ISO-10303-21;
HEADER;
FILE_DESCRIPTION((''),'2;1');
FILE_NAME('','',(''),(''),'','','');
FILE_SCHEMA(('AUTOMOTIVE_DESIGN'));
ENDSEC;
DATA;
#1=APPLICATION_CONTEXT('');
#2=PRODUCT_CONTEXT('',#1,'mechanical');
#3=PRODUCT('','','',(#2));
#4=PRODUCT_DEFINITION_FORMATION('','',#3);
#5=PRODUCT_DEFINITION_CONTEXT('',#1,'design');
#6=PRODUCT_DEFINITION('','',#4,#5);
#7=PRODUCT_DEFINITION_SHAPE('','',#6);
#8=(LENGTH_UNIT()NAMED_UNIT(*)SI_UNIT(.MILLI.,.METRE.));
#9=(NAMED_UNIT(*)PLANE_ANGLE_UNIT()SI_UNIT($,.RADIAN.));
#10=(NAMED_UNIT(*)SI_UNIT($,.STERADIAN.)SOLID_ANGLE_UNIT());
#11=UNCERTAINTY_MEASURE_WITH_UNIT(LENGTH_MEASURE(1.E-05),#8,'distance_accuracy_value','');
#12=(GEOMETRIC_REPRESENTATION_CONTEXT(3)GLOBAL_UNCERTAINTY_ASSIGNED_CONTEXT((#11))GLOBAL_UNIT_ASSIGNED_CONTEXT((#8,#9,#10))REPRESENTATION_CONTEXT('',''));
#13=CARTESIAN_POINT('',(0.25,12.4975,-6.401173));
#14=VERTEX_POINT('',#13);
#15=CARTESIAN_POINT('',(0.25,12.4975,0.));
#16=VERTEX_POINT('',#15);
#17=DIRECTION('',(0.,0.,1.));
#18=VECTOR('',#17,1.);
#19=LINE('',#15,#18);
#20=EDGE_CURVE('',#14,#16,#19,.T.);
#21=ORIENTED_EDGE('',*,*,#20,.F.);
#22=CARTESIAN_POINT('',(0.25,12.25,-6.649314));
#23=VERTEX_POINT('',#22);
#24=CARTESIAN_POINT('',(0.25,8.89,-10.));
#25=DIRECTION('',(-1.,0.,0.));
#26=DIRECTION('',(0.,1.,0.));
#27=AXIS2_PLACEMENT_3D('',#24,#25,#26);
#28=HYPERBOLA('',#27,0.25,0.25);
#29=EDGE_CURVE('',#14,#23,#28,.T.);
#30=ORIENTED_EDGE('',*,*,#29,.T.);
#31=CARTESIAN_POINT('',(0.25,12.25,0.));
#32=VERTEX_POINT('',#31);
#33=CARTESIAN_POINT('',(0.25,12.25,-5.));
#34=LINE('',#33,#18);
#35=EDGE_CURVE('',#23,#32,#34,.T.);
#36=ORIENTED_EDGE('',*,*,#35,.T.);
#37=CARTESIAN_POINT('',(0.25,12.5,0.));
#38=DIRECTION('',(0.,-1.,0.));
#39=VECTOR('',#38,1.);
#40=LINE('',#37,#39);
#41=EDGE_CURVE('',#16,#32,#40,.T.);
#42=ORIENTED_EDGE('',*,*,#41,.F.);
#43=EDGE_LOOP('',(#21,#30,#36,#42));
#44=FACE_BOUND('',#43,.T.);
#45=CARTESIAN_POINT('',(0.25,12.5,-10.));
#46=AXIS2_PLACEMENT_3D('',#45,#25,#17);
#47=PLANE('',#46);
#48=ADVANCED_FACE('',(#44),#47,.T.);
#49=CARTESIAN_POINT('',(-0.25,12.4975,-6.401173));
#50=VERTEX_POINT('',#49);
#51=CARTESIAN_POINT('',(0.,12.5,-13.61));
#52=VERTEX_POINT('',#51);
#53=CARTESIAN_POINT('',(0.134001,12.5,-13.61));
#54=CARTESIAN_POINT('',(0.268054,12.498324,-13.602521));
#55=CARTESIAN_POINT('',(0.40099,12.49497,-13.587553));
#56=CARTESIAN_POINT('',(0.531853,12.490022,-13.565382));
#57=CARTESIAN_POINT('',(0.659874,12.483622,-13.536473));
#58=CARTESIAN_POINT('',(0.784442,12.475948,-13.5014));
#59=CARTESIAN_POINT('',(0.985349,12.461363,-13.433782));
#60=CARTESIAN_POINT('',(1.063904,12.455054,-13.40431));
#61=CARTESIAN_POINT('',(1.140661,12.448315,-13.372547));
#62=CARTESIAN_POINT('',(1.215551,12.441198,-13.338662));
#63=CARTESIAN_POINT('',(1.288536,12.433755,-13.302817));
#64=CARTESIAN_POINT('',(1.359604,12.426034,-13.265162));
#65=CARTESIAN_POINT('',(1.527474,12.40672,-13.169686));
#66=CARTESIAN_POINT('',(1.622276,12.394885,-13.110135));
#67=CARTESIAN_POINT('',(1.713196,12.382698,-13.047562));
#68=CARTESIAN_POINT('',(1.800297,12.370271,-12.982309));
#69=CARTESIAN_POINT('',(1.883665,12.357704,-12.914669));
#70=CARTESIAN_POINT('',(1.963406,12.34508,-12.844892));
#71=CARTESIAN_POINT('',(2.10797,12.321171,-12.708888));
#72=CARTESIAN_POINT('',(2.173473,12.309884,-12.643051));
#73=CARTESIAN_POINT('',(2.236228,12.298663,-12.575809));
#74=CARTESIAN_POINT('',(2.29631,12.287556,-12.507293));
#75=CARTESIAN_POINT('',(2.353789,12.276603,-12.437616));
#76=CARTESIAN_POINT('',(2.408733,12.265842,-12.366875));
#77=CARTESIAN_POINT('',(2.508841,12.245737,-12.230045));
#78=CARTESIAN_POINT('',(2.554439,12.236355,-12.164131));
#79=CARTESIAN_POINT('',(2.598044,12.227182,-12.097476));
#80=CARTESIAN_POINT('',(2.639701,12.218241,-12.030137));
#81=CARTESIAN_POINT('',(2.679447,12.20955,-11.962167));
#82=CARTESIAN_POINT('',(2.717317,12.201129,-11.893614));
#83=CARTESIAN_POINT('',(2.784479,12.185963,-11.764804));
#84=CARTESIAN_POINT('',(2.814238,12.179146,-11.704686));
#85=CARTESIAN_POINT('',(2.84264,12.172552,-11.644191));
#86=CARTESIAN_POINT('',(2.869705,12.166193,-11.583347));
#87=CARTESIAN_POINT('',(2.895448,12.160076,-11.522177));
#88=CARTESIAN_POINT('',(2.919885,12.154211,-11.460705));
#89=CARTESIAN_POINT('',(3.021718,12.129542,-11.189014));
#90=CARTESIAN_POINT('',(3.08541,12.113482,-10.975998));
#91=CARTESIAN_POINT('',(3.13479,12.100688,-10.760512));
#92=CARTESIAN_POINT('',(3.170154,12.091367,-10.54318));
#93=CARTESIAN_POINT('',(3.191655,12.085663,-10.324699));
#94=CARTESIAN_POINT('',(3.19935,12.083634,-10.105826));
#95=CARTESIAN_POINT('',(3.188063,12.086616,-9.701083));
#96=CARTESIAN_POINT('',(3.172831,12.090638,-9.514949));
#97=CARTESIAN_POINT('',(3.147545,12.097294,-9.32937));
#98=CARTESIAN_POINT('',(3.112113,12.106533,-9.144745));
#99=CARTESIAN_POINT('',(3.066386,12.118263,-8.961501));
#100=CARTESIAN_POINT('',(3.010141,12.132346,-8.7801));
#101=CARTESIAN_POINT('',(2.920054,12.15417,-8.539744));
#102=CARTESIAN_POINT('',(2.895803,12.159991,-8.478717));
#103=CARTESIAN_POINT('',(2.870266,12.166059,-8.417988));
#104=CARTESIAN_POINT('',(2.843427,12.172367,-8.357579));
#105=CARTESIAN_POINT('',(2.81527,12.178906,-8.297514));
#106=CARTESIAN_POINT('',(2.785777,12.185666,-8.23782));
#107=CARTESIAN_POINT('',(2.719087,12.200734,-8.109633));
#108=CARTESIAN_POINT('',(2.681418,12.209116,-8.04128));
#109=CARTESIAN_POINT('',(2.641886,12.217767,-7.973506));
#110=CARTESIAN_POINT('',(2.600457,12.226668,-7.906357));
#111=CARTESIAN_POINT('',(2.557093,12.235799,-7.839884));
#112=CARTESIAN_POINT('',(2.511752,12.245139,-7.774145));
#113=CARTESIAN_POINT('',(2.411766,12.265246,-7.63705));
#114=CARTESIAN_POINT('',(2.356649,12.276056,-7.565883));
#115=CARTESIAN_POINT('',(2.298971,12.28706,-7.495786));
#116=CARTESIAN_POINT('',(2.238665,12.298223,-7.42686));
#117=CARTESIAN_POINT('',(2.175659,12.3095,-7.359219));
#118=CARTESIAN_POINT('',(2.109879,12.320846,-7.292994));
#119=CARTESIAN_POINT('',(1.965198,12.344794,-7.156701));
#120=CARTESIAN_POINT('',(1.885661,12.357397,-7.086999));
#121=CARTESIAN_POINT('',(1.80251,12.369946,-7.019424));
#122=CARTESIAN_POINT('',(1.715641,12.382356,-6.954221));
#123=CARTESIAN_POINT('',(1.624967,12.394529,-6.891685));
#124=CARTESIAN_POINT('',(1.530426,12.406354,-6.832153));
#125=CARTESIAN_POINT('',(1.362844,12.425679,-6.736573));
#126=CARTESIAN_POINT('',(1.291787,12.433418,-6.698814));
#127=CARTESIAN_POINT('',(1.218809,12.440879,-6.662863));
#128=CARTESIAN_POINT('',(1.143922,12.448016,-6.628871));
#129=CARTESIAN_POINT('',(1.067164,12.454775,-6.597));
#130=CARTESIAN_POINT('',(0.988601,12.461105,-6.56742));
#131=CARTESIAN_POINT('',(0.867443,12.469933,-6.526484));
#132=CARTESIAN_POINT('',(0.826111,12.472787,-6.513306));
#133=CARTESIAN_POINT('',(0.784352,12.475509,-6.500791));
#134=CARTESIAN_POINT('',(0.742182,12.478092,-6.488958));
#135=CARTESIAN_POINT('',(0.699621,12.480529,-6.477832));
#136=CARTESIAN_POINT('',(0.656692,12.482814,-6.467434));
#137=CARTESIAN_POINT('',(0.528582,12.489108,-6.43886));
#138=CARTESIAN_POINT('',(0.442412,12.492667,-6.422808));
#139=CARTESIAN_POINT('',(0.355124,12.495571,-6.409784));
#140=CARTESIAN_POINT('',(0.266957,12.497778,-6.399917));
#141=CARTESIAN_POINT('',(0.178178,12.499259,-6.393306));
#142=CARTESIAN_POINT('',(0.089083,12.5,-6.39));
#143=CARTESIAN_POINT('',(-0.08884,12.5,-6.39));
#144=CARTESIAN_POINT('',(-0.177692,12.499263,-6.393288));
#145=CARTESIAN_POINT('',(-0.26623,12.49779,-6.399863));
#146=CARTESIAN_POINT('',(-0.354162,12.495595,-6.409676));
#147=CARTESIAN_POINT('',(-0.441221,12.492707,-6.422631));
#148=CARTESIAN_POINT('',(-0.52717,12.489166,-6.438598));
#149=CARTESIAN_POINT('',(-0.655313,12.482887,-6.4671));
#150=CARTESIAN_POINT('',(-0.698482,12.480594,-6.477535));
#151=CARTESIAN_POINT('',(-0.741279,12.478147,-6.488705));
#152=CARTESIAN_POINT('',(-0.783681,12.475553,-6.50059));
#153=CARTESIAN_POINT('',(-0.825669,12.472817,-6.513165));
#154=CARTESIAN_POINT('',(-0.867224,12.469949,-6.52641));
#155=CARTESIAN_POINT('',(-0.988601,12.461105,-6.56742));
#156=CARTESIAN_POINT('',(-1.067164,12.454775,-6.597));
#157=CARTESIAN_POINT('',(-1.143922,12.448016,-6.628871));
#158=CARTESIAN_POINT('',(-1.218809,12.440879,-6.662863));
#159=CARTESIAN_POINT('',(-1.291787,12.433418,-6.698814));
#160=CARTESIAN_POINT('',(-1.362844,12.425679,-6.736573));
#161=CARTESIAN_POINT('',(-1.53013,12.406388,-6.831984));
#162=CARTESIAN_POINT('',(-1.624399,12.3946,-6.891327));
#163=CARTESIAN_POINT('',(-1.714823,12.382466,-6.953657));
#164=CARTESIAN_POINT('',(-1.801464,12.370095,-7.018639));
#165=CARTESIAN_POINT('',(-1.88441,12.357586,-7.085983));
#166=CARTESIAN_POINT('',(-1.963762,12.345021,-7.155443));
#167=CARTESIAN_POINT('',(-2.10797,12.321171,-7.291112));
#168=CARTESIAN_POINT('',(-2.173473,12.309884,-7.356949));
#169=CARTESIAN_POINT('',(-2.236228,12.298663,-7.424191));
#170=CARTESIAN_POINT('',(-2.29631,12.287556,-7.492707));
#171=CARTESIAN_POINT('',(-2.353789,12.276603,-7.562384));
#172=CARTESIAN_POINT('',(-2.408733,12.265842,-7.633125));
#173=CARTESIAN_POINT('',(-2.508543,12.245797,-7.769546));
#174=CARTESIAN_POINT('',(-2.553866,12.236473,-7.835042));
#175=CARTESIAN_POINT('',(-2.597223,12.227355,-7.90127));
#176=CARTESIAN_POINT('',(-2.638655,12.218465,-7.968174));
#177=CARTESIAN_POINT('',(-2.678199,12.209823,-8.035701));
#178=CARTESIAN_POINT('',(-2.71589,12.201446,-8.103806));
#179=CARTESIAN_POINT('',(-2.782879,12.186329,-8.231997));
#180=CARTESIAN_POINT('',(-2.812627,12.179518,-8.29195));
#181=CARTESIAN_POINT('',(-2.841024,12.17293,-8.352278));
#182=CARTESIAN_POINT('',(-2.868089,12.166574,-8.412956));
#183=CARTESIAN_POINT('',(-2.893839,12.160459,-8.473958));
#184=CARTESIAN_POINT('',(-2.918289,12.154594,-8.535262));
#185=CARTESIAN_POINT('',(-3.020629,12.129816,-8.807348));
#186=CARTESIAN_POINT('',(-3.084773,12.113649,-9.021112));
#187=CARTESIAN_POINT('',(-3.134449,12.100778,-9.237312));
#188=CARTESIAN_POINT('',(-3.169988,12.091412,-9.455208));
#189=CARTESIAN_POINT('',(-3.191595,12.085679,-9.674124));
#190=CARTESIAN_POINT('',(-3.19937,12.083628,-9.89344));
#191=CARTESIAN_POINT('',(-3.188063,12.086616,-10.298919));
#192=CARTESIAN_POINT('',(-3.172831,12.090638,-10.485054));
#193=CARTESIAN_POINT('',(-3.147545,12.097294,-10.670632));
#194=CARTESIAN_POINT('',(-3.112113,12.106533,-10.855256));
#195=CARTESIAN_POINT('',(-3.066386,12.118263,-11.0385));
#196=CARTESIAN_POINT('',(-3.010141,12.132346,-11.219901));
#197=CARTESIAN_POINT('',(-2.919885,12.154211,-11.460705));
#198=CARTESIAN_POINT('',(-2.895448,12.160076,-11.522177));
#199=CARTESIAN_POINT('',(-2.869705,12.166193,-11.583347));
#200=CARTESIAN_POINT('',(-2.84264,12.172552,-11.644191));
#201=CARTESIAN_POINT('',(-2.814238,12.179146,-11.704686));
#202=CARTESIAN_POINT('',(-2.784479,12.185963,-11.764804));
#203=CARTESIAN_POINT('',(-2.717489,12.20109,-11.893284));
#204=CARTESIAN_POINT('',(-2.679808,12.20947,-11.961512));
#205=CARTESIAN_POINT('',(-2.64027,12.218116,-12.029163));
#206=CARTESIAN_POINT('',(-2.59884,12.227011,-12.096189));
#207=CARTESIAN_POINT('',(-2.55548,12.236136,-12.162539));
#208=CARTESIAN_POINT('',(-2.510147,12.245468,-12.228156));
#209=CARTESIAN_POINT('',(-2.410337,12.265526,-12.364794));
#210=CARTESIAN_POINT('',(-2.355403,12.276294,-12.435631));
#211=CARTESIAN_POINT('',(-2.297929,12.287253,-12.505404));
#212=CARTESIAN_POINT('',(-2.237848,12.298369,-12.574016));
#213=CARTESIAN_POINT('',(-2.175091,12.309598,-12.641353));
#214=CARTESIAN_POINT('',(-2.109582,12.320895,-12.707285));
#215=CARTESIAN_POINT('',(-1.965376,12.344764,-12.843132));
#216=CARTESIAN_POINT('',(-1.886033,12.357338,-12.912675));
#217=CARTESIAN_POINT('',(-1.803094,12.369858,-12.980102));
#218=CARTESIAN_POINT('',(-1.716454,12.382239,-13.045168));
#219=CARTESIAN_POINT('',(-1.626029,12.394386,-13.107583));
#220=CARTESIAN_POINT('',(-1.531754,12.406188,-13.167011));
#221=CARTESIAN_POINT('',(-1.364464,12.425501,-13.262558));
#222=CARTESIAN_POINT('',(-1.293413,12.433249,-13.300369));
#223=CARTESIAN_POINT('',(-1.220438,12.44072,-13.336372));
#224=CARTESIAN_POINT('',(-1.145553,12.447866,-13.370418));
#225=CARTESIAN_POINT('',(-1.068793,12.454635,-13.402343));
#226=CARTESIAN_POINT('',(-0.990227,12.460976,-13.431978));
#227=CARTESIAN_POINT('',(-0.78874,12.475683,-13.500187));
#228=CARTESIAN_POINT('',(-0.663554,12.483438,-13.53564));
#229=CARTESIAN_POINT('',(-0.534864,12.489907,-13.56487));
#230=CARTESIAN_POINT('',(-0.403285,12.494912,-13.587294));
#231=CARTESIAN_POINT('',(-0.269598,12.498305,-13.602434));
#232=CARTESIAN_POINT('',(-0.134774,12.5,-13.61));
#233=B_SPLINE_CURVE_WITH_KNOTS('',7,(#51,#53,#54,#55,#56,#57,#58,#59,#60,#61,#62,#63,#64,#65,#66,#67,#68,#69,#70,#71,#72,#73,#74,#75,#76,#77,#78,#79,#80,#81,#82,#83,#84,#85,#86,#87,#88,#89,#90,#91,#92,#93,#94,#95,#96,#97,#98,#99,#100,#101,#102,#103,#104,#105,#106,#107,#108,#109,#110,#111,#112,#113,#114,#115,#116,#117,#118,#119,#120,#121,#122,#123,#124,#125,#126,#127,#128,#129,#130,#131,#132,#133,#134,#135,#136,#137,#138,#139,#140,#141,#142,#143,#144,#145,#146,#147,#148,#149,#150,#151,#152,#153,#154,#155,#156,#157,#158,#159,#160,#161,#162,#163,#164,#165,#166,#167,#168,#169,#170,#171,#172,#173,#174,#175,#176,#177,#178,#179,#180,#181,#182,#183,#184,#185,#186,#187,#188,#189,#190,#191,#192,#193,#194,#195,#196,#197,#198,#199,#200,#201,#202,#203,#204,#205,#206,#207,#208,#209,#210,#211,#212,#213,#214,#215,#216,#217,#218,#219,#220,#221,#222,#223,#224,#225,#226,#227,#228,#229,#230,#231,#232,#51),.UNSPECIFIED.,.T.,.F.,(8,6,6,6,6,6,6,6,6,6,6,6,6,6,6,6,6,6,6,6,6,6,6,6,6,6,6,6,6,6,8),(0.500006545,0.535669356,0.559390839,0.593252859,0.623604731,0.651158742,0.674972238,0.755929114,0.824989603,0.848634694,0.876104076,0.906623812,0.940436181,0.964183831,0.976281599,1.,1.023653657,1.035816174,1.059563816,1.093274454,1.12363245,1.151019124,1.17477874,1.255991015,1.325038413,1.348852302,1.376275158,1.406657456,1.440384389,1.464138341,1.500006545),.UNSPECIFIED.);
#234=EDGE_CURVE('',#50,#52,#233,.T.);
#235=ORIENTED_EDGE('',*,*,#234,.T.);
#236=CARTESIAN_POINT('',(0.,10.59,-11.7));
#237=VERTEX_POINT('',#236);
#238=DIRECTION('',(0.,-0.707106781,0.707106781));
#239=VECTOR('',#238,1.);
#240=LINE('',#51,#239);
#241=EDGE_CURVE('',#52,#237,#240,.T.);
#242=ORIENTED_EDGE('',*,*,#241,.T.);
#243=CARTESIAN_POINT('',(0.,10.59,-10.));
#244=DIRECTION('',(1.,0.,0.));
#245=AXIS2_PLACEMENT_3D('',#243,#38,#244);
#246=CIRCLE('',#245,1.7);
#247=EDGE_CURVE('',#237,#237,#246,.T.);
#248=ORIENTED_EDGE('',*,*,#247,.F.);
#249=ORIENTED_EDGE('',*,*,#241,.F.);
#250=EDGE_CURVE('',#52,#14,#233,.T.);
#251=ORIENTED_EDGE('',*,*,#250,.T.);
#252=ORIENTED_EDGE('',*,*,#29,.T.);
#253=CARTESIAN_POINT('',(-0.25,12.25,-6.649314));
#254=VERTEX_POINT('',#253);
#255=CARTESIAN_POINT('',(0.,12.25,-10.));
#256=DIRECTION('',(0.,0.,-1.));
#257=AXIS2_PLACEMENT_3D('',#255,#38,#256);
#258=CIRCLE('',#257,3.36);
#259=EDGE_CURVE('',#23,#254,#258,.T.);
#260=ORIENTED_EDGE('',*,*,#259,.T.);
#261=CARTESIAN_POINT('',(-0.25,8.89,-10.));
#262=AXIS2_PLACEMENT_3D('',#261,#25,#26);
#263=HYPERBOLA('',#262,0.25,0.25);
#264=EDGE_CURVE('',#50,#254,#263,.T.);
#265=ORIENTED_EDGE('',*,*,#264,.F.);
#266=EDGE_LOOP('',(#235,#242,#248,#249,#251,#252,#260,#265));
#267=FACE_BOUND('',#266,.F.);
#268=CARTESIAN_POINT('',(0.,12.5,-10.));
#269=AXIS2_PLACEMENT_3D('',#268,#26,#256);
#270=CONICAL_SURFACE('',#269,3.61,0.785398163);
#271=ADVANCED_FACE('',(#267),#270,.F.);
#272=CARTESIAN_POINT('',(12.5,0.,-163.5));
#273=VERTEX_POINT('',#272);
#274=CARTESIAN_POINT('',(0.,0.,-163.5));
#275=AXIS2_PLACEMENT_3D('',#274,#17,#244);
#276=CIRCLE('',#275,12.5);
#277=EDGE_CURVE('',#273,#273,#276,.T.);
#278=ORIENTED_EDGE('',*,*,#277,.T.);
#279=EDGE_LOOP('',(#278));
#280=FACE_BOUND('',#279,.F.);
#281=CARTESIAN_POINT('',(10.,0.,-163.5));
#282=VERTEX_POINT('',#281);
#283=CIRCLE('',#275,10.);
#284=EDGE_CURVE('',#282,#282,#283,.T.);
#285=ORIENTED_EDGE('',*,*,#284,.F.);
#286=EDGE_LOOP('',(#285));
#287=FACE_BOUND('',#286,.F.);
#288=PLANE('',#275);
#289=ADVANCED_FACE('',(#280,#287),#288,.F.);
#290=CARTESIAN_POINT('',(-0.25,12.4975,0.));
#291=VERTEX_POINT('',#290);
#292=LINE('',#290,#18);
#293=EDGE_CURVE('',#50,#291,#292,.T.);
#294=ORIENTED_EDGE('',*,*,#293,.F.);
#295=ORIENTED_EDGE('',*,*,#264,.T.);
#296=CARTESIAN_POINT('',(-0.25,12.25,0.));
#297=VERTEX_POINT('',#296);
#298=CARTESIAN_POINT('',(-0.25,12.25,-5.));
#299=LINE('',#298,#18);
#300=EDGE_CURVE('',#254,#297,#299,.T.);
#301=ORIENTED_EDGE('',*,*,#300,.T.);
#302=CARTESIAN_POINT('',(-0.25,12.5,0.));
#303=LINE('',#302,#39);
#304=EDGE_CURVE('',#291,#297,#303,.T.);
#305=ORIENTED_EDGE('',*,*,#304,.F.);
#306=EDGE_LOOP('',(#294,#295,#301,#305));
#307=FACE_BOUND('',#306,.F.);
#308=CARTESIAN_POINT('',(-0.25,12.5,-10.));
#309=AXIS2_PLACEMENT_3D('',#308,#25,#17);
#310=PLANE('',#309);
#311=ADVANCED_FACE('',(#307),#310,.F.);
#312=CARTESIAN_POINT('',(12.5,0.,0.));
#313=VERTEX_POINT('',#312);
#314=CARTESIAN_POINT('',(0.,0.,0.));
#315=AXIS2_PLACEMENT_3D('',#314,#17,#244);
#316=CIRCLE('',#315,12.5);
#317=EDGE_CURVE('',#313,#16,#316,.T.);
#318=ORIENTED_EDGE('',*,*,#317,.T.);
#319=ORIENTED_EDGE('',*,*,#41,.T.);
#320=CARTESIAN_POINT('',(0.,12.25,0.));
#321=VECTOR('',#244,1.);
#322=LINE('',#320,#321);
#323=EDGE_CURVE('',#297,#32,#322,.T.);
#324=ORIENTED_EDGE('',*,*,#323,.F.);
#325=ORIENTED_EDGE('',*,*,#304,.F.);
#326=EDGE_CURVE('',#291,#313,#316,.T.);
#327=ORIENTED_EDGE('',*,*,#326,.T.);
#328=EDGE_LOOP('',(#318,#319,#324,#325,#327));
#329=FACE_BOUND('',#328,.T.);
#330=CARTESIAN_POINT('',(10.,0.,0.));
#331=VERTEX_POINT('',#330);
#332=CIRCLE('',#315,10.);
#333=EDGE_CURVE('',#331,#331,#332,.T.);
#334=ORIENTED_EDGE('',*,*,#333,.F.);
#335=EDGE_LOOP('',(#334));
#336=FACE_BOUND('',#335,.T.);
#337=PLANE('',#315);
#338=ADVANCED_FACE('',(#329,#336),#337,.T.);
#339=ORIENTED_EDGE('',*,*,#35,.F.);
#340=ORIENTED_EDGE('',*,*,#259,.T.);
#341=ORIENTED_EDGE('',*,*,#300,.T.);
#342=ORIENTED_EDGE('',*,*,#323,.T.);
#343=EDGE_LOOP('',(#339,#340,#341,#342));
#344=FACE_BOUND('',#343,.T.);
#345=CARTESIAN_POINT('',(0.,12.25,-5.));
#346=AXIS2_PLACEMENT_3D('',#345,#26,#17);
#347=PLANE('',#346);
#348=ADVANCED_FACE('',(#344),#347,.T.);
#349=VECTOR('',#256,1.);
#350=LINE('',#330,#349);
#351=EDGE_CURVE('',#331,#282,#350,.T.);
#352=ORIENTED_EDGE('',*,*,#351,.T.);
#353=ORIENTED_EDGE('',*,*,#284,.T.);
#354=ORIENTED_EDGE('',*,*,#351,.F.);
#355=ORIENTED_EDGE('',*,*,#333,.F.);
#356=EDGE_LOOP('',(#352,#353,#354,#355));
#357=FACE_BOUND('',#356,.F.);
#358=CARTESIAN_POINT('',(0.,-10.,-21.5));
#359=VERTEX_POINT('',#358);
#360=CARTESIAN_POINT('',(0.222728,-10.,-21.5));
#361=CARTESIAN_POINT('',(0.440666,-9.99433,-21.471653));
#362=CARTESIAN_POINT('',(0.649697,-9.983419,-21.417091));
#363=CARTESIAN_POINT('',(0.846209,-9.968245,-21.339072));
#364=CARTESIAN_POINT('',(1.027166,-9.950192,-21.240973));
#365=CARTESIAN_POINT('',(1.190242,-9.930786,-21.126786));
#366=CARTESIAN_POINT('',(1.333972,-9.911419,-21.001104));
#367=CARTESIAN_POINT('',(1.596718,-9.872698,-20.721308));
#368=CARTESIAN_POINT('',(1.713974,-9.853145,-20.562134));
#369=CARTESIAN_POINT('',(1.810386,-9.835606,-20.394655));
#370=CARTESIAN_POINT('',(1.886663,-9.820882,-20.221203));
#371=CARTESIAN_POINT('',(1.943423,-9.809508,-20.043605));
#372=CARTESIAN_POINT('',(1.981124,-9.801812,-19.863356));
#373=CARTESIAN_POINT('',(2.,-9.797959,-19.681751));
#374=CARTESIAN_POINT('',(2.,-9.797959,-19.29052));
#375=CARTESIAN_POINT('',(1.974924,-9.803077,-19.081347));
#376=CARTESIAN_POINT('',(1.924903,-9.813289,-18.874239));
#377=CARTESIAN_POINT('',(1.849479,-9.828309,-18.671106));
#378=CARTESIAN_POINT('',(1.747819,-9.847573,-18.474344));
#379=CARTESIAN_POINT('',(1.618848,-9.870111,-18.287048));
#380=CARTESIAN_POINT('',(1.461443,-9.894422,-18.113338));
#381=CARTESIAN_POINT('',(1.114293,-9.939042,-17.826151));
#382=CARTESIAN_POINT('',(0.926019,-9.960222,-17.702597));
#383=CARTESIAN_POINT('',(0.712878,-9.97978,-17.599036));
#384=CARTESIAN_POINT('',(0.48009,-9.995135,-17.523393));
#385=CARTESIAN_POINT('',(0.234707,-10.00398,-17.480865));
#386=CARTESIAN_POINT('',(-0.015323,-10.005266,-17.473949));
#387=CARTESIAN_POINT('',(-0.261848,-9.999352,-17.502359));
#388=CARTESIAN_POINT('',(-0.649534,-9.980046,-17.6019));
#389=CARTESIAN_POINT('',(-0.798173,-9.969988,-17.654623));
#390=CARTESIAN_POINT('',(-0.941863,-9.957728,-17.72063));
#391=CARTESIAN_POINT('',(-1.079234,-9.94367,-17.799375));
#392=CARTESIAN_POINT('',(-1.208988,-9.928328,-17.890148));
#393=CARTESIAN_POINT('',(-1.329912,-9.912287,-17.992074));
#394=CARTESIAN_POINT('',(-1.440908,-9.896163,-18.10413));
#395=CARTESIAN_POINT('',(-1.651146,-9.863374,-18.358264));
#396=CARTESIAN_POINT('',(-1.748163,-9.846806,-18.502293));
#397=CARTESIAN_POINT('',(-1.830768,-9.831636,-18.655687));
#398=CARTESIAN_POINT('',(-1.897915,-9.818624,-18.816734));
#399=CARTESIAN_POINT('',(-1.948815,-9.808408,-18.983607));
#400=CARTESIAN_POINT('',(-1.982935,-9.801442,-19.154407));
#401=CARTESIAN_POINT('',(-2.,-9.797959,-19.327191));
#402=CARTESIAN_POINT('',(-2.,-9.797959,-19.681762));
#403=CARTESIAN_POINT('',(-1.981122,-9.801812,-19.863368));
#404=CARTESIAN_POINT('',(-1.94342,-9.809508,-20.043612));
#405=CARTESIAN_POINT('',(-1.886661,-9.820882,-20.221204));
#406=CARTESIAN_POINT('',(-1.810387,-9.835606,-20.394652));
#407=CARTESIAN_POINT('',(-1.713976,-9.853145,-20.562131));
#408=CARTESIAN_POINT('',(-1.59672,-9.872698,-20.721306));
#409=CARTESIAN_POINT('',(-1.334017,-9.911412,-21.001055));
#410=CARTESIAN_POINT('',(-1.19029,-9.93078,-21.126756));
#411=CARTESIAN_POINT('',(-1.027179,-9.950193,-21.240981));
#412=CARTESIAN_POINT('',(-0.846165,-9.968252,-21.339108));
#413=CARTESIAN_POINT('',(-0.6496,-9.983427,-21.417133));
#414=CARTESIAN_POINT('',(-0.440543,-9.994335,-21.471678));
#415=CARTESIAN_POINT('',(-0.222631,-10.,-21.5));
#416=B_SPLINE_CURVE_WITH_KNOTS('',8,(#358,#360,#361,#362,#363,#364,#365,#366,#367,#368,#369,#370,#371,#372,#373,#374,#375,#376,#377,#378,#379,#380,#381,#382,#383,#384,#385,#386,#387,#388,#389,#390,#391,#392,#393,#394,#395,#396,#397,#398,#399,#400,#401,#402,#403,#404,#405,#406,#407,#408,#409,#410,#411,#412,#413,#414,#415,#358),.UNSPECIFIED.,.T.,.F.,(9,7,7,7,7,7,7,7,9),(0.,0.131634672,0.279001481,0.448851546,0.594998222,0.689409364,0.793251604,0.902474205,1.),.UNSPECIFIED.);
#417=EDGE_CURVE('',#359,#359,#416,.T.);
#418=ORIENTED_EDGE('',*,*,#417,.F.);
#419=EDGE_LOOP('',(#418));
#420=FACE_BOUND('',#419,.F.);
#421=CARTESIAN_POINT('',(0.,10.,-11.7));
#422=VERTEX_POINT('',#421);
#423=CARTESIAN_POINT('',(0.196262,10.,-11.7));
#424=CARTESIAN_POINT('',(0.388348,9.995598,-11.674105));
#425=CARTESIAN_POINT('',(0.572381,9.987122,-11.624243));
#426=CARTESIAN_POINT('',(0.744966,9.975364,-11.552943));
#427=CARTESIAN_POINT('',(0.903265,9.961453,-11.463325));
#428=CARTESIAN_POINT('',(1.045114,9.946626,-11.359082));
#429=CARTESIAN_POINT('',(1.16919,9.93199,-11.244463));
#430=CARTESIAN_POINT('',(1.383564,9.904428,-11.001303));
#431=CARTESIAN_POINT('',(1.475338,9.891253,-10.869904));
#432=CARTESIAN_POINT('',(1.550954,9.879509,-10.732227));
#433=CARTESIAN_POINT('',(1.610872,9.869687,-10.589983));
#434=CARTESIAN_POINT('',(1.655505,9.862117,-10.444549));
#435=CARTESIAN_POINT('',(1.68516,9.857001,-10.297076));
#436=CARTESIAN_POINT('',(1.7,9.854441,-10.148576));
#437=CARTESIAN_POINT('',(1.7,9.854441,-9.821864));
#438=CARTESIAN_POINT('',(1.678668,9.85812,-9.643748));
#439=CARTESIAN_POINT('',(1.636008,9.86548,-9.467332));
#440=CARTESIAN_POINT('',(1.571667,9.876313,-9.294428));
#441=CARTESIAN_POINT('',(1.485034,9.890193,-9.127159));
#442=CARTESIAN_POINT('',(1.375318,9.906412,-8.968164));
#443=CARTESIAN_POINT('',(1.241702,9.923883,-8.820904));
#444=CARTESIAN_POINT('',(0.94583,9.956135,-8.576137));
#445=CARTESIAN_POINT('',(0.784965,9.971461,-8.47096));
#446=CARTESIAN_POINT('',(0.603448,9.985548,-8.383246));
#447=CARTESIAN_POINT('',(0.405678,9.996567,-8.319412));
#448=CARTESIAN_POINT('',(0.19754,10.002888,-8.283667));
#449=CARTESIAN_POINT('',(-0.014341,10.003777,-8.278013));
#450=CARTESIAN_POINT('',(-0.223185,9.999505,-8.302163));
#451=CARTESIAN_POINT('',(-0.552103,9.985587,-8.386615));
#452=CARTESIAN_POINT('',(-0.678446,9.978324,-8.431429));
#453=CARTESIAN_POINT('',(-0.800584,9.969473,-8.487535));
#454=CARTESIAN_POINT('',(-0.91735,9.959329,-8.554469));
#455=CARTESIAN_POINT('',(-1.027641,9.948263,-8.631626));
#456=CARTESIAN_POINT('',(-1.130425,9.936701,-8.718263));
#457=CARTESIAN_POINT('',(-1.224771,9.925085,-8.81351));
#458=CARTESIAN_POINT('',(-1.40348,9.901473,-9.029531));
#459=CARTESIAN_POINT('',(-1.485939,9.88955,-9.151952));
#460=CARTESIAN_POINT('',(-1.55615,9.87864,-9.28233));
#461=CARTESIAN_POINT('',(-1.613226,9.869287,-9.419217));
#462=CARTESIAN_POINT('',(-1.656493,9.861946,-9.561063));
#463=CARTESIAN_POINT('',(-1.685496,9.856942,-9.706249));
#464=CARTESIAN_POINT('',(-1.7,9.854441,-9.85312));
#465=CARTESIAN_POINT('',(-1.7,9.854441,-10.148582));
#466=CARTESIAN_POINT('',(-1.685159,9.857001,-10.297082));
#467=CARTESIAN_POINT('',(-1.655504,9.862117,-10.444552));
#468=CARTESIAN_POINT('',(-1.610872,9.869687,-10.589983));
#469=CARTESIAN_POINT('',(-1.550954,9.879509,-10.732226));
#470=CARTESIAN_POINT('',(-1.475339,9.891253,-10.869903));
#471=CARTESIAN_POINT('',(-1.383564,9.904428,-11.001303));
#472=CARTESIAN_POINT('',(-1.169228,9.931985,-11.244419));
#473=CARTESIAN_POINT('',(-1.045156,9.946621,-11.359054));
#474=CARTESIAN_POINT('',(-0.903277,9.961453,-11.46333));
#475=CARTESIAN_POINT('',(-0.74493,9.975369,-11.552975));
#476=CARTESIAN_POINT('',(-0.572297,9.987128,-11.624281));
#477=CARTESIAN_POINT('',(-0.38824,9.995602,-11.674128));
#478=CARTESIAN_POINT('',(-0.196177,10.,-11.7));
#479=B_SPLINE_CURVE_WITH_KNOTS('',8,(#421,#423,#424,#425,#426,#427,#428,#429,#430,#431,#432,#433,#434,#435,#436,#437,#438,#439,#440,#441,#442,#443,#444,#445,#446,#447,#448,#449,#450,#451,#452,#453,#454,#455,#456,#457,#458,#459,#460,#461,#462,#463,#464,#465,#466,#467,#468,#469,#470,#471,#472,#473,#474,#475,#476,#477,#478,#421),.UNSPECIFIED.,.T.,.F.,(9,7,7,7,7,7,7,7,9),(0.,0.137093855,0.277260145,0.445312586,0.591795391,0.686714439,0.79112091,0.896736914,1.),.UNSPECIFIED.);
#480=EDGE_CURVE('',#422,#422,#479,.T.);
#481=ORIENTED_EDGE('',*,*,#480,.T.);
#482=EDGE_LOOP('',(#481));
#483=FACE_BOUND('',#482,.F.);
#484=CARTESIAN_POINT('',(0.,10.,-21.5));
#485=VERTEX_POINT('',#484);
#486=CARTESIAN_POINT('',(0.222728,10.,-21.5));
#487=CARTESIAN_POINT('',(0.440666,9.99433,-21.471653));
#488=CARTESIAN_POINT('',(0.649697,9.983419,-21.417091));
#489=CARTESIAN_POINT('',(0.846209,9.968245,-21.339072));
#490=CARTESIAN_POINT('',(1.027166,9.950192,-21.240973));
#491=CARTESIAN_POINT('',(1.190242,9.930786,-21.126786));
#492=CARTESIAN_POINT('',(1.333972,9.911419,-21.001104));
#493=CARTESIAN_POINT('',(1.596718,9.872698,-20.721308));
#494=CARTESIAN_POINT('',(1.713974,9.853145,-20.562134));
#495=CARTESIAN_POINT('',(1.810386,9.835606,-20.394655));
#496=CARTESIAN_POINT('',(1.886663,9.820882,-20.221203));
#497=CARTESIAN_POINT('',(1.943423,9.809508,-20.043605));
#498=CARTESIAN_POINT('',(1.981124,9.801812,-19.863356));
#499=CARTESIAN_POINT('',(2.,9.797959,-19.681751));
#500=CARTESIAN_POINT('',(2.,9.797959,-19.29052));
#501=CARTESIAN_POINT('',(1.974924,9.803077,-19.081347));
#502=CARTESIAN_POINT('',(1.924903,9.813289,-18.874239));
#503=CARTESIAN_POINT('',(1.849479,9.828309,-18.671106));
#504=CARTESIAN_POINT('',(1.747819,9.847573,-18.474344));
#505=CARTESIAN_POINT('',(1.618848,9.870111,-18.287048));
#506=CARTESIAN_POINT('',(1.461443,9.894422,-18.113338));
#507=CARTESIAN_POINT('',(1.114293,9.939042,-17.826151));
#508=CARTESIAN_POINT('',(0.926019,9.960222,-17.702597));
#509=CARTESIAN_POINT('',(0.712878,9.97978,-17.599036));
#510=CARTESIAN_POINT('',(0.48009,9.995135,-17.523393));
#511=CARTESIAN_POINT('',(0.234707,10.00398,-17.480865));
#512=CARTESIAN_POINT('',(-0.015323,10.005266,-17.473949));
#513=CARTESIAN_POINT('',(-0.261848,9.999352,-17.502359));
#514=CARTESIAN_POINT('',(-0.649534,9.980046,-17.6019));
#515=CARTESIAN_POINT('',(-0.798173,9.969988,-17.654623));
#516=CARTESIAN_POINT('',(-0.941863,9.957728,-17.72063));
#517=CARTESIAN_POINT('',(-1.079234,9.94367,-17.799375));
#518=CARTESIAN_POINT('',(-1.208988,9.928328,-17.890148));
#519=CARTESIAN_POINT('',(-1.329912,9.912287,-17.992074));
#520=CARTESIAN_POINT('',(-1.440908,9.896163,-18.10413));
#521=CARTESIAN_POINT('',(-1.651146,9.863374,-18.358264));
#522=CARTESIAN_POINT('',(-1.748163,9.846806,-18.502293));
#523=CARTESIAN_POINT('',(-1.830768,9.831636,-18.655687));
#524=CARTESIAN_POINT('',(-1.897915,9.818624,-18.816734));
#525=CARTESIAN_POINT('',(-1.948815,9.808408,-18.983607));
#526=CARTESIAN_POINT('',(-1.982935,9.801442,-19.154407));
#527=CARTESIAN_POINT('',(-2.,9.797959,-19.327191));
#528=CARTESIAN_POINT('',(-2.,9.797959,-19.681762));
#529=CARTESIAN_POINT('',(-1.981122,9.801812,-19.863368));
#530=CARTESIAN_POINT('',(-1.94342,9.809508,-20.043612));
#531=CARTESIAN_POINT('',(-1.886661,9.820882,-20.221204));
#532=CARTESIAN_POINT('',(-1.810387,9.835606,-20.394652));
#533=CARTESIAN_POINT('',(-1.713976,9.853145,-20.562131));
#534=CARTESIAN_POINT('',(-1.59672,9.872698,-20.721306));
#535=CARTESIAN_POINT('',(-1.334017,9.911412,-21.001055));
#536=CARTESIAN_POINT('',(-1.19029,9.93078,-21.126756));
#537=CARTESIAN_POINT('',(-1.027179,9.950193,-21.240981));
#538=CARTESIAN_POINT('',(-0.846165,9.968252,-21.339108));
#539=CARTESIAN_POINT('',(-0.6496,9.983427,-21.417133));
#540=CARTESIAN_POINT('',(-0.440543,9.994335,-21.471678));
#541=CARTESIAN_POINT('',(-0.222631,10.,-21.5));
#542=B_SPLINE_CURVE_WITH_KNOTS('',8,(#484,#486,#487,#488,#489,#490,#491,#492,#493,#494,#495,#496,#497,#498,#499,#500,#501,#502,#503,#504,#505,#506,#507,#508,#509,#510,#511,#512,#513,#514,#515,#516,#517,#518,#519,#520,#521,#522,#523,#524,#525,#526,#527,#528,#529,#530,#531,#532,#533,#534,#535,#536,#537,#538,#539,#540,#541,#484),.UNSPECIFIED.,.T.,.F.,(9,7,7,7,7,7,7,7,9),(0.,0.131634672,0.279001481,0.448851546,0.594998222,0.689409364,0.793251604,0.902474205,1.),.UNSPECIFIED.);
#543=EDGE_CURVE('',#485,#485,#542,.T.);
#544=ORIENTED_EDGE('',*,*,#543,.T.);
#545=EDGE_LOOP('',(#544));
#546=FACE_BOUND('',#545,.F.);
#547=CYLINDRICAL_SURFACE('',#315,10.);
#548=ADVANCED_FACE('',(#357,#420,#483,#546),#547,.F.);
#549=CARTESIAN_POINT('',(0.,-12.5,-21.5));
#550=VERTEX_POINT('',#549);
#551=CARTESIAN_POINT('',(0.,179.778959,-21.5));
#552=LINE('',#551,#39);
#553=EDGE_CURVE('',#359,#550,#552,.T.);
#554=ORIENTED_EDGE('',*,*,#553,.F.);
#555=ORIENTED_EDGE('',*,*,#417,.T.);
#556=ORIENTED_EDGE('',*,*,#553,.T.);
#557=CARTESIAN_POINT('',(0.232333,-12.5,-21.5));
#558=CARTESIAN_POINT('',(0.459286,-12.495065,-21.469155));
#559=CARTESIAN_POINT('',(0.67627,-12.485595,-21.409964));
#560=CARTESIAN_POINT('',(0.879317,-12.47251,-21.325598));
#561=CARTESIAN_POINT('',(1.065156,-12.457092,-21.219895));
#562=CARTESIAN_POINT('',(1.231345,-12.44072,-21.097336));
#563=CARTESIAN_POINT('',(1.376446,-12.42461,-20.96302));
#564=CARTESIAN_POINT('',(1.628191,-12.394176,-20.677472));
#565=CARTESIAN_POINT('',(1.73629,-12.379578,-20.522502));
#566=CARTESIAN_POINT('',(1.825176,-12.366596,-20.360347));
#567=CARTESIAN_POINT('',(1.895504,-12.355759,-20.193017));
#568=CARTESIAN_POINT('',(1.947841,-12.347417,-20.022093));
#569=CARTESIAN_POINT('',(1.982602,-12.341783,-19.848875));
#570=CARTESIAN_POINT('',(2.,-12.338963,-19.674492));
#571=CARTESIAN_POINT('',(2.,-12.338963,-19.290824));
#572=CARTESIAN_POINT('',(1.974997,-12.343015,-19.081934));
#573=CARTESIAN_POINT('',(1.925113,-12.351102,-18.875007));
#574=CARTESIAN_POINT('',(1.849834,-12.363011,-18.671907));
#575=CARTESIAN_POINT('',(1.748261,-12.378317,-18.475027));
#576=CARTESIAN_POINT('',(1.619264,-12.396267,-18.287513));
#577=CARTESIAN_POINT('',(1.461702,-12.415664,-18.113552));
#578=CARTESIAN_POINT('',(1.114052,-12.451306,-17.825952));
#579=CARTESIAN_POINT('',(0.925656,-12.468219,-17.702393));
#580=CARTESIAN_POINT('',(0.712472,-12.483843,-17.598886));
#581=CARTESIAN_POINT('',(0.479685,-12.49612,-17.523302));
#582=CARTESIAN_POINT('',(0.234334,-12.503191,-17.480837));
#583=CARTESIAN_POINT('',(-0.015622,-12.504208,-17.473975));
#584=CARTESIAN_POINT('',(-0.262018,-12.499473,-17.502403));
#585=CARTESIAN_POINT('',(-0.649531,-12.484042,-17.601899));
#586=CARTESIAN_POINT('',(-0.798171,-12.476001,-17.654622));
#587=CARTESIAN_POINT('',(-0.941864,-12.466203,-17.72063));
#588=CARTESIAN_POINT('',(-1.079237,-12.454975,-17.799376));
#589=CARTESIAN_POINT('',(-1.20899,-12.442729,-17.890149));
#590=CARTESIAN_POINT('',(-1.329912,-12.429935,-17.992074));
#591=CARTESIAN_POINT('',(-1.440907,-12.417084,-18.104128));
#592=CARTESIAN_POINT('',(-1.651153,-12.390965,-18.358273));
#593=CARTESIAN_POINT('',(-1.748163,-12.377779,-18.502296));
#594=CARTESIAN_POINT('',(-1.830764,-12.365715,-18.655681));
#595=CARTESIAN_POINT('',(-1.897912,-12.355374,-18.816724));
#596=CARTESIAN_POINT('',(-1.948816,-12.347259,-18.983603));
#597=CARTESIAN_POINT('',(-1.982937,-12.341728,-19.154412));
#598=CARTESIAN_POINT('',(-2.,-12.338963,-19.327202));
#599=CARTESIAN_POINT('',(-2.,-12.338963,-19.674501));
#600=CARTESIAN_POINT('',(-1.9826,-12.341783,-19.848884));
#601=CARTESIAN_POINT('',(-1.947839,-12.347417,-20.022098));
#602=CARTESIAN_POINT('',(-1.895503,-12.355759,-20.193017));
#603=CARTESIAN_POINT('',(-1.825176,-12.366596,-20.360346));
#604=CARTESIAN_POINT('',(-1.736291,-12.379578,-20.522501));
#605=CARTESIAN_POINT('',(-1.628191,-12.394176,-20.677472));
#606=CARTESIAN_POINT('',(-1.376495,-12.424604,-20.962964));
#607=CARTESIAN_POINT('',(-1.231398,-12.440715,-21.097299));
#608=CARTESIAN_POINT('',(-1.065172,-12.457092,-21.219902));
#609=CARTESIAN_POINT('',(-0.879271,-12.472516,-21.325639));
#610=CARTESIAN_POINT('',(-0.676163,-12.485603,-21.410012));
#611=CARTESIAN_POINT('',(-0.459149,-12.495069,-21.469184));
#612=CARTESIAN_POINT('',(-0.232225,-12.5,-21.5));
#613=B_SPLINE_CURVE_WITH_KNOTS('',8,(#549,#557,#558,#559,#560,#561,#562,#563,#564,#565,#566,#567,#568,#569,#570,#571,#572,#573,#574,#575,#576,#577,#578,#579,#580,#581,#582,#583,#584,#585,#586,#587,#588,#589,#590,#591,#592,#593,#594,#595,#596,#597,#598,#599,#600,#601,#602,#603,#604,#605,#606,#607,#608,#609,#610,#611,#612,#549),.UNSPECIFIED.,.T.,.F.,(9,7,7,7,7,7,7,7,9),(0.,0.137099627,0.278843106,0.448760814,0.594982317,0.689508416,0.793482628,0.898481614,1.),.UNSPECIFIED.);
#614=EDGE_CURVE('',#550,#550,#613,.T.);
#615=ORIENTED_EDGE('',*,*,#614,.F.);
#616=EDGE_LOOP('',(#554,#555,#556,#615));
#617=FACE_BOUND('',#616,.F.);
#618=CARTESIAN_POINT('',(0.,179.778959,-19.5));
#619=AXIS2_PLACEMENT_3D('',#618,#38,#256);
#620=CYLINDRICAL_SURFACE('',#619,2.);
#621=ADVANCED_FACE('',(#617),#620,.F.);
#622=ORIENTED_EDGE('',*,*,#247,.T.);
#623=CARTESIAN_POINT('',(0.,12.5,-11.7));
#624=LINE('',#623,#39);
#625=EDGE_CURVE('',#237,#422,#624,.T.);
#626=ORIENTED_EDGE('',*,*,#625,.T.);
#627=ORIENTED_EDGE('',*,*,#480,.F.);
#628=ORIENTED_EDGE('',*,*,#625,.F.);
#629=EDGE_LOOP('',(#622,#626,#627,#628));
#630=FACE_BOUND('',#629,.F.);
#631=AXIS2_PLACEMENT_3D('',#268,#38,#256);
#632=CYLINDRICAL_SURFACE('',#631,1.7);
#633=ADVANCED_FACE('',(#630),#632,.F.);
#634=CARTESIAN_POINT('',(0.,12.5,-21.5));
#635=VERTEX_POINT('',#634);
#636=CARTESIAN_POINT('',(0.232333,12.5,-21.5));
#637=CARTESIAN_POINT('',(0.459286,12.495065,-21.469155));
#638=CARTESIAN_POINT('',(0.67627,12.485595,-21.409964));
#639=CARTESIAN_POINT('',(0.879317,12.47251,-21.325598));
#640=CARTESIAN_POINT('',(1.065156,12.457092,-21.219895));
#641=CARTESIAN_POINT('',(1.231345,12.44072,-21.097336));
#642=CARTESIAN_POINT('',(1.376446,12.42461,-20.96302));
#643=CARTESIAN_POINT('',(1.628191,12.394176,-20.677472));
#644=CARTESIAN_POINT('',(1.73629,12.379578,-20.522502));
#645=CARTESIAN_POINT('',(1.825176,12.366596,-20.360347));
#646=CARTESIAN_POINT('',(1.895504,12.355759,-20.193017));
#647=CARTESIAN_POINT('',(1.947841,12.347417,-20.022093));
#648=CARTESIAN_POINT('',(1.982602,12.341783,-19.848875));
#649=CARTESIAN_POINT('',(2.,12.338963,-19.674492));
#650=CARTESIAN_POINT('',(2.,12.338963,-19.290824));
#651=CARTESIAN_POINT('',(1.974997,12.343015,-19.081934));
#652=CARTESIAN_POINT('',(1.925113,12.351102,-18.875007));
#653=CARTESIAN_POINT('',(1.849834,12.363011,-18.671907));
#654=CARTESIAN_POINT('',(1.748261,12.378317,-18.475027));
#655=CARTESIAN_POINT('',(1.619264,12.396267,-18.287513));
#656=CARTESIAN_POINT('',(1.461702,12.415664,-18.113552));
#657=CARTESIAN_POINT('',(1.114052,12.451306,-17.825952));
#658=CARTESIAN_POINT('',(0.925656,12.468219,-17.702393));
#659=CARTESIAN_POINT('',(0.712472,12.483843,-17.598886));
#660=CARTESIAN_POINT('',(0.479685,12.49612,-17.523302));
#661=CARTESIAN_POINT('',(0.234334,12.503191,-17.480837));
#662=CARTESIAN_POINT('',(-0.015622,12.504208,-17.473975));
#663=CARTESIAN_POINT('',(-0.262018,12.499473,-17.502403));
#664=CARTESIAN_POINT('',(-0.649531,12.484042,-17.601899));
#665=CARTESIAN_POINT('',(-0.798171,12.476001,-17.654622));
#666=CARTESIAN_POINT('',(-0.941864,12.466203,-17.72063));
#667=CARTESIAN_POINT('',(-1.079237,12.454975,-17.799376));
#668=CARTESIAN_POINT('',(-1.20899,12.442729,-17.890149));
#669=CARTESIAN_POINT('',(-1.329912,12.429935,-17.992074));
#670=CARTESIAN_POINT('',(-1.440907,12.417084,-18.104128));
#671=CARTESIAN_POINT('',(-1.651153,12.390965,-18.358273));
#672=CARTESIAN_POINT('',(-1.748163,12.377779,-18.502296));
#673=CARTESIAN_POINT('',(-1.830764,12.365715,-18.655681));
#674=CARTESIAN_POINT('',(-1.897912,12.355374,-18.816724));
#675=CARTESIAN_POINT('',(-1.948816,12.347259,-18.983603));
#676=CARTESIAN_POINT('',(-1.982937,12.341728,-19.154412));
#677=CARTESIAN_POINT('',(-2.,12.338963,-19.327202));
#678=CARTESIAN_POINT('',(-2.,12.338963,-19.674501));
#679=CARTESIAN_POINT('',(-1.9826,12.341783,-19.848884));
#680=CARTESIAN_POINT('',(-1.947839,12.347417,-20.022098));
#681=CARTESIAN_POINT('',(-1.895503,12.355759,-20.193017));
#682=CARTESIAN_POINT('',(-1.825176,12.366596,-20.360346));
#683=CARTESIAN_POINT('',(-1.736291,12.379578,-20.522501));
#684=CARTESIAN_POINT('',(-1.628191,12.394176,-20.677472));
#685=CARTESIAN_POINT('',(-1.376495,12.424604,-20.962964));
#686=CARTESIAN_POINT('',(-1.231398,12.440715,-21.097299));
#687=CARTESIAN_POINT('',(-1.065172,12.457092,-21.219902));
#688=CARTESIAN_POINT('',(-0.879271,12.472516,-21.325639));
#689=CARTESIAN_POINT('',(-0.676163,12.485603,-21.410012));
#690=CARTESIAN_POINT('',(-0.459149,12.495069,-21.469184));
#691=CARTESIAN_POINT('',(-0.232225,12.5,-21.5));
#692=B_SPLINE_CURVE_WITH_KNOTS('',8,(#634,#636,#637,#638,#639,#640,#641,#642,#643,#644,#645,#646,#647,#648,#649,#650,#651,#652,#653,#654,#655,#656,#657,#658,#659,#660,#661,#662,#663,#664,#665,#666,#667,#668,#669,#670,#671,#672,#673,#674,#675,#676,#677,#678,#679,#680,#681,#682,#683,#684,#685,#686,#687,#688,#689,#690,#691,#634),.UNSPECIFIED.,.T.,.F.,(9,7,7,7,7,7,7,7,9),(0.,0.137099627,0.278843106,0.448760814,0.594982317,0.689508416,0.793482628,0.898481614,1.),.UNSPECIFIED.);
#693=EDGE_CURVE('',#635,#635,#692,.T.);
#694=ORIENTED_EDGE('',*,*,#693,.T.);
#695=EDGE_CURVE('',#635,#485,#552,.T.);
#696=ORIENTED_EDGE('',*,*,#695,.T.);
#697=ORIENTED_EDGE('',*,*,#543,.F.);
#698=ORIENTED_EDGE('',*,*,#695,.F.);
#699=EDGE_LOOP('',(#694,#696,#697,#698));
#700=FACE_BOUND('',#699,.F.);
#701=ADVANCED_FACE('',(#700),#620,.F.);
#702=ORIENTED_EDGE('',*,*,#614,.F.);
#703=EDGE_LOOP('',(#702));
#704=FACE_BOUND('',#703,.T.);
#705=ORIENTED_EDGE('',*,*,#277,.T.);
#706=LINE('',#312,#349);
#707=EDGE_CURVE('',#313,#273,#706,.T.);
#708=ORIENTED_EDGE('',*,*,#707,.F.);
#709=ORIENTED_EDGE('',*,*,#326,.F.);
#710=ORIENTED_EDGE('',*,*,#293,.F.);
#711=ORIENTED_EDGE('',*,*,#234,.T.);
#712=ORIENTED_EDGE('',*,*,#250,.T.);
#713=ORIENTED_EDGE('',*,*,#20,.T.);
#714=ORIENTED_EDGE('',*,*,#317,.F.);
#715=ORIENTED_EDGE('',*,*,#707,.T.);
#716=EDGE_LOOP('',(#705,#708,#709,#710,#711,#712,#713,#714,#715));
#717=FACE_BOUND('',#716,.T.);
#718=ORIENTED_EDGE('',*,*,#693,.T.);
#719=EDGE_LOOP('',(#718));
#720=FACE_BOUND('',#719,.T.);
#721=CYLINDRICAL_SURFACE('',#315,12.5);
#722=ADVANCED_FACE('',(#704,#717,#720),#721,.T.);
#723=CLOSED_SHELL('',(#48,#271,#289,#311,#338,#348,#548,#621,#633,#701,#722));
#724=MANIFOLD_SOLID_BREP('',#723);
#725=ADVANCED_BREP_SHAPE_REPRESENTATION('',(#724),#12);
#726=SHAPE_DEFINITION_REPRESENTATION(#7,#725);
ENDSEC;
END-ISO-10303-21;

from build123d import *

# Parameters (mm, degrees)
SKETCH1_R                     = 12.5
SKETCH1_R_2                   = 10
BOSS_EXTRUDE1_DEPTH           = 163.5
CSK_FOR_M3_SFHCS1_D           = 3.4
CSK_FOR_M3_SFHCS1_DEPTH       = 10
CSK_FOR_M3_SFHCS1_CSINK_D     = 7.22
CSK_FOR_M3_SFHCS1_CSINK_ANGLE = 90
CSK_FOR_M3_SFHCS1_TIP         = 1.021463052
F_4_0MM_DOWEL_HOLE1_D         = 4
SKETCH8_W                     = 10
SKETCH8_H                     = 0.5
CUT_EXTRUDE1_DEPTH            = 0.25


with BuildPart() as part:
    # Sketch1 → Boss-Extrude1 (new body)
    with BuildSketch(Plane.XY):
        Circle(SKETCH1_R)
        Circle(SKETCH1_R_2, mode=Mode.SUBTRACT)
    extrude(amount=-BOSS_EXTRUDE1_DEPTH)

    # CSK for M3 SFHCS1
    with Locations(Plane.ZX.offset(12.5)):
        with Locations((-10, 0)):
            CounterSinkHole(CSK_FOR_M3_SFHCS1_D / 2, CSK_FOR_M3_SFHCS1_CSINK_D / 2, depth=CSK_FOR_M3_SFHCS1_DEPTH, counter_sink_angle=CSK_FOR_M3_SFHCS1_CSINK_ANGLE)
            with Locations((0, 0, -(CSK_FOR_M3_SFHCS1_DEPTH + CSK_FOR_M3_SFHCS1_TIP / 2))):  # 118° drill point
                Cone(0, CSK_FOR_M3_SFHCS1_D / 2, CSK_FOR_M3_SFHCS1_TIP, mode=Mode.SUBTRACT)

    # Ø4.0mm Dowel Hole1 (through all)
    with Locations(Plane.ZX.offset(12.5)):
        with Locations((-19.5, 0)):
            Hole(F_4_0MM_DOWEL_HOLE1_D / 2)

    # Sketch8 → Cut-Extrude1 (cut)
    with BuildSketch(Plane.ZX.offset(12.5)):
        with Locations((-5, 0)):
            Rectangle(SKETCH8_W, SKETCH8_H)
    extrude(amount=-CUT_EXTRUDE1_DEPTH, mode=Mode.SUBTRACT)


solid = part.part
